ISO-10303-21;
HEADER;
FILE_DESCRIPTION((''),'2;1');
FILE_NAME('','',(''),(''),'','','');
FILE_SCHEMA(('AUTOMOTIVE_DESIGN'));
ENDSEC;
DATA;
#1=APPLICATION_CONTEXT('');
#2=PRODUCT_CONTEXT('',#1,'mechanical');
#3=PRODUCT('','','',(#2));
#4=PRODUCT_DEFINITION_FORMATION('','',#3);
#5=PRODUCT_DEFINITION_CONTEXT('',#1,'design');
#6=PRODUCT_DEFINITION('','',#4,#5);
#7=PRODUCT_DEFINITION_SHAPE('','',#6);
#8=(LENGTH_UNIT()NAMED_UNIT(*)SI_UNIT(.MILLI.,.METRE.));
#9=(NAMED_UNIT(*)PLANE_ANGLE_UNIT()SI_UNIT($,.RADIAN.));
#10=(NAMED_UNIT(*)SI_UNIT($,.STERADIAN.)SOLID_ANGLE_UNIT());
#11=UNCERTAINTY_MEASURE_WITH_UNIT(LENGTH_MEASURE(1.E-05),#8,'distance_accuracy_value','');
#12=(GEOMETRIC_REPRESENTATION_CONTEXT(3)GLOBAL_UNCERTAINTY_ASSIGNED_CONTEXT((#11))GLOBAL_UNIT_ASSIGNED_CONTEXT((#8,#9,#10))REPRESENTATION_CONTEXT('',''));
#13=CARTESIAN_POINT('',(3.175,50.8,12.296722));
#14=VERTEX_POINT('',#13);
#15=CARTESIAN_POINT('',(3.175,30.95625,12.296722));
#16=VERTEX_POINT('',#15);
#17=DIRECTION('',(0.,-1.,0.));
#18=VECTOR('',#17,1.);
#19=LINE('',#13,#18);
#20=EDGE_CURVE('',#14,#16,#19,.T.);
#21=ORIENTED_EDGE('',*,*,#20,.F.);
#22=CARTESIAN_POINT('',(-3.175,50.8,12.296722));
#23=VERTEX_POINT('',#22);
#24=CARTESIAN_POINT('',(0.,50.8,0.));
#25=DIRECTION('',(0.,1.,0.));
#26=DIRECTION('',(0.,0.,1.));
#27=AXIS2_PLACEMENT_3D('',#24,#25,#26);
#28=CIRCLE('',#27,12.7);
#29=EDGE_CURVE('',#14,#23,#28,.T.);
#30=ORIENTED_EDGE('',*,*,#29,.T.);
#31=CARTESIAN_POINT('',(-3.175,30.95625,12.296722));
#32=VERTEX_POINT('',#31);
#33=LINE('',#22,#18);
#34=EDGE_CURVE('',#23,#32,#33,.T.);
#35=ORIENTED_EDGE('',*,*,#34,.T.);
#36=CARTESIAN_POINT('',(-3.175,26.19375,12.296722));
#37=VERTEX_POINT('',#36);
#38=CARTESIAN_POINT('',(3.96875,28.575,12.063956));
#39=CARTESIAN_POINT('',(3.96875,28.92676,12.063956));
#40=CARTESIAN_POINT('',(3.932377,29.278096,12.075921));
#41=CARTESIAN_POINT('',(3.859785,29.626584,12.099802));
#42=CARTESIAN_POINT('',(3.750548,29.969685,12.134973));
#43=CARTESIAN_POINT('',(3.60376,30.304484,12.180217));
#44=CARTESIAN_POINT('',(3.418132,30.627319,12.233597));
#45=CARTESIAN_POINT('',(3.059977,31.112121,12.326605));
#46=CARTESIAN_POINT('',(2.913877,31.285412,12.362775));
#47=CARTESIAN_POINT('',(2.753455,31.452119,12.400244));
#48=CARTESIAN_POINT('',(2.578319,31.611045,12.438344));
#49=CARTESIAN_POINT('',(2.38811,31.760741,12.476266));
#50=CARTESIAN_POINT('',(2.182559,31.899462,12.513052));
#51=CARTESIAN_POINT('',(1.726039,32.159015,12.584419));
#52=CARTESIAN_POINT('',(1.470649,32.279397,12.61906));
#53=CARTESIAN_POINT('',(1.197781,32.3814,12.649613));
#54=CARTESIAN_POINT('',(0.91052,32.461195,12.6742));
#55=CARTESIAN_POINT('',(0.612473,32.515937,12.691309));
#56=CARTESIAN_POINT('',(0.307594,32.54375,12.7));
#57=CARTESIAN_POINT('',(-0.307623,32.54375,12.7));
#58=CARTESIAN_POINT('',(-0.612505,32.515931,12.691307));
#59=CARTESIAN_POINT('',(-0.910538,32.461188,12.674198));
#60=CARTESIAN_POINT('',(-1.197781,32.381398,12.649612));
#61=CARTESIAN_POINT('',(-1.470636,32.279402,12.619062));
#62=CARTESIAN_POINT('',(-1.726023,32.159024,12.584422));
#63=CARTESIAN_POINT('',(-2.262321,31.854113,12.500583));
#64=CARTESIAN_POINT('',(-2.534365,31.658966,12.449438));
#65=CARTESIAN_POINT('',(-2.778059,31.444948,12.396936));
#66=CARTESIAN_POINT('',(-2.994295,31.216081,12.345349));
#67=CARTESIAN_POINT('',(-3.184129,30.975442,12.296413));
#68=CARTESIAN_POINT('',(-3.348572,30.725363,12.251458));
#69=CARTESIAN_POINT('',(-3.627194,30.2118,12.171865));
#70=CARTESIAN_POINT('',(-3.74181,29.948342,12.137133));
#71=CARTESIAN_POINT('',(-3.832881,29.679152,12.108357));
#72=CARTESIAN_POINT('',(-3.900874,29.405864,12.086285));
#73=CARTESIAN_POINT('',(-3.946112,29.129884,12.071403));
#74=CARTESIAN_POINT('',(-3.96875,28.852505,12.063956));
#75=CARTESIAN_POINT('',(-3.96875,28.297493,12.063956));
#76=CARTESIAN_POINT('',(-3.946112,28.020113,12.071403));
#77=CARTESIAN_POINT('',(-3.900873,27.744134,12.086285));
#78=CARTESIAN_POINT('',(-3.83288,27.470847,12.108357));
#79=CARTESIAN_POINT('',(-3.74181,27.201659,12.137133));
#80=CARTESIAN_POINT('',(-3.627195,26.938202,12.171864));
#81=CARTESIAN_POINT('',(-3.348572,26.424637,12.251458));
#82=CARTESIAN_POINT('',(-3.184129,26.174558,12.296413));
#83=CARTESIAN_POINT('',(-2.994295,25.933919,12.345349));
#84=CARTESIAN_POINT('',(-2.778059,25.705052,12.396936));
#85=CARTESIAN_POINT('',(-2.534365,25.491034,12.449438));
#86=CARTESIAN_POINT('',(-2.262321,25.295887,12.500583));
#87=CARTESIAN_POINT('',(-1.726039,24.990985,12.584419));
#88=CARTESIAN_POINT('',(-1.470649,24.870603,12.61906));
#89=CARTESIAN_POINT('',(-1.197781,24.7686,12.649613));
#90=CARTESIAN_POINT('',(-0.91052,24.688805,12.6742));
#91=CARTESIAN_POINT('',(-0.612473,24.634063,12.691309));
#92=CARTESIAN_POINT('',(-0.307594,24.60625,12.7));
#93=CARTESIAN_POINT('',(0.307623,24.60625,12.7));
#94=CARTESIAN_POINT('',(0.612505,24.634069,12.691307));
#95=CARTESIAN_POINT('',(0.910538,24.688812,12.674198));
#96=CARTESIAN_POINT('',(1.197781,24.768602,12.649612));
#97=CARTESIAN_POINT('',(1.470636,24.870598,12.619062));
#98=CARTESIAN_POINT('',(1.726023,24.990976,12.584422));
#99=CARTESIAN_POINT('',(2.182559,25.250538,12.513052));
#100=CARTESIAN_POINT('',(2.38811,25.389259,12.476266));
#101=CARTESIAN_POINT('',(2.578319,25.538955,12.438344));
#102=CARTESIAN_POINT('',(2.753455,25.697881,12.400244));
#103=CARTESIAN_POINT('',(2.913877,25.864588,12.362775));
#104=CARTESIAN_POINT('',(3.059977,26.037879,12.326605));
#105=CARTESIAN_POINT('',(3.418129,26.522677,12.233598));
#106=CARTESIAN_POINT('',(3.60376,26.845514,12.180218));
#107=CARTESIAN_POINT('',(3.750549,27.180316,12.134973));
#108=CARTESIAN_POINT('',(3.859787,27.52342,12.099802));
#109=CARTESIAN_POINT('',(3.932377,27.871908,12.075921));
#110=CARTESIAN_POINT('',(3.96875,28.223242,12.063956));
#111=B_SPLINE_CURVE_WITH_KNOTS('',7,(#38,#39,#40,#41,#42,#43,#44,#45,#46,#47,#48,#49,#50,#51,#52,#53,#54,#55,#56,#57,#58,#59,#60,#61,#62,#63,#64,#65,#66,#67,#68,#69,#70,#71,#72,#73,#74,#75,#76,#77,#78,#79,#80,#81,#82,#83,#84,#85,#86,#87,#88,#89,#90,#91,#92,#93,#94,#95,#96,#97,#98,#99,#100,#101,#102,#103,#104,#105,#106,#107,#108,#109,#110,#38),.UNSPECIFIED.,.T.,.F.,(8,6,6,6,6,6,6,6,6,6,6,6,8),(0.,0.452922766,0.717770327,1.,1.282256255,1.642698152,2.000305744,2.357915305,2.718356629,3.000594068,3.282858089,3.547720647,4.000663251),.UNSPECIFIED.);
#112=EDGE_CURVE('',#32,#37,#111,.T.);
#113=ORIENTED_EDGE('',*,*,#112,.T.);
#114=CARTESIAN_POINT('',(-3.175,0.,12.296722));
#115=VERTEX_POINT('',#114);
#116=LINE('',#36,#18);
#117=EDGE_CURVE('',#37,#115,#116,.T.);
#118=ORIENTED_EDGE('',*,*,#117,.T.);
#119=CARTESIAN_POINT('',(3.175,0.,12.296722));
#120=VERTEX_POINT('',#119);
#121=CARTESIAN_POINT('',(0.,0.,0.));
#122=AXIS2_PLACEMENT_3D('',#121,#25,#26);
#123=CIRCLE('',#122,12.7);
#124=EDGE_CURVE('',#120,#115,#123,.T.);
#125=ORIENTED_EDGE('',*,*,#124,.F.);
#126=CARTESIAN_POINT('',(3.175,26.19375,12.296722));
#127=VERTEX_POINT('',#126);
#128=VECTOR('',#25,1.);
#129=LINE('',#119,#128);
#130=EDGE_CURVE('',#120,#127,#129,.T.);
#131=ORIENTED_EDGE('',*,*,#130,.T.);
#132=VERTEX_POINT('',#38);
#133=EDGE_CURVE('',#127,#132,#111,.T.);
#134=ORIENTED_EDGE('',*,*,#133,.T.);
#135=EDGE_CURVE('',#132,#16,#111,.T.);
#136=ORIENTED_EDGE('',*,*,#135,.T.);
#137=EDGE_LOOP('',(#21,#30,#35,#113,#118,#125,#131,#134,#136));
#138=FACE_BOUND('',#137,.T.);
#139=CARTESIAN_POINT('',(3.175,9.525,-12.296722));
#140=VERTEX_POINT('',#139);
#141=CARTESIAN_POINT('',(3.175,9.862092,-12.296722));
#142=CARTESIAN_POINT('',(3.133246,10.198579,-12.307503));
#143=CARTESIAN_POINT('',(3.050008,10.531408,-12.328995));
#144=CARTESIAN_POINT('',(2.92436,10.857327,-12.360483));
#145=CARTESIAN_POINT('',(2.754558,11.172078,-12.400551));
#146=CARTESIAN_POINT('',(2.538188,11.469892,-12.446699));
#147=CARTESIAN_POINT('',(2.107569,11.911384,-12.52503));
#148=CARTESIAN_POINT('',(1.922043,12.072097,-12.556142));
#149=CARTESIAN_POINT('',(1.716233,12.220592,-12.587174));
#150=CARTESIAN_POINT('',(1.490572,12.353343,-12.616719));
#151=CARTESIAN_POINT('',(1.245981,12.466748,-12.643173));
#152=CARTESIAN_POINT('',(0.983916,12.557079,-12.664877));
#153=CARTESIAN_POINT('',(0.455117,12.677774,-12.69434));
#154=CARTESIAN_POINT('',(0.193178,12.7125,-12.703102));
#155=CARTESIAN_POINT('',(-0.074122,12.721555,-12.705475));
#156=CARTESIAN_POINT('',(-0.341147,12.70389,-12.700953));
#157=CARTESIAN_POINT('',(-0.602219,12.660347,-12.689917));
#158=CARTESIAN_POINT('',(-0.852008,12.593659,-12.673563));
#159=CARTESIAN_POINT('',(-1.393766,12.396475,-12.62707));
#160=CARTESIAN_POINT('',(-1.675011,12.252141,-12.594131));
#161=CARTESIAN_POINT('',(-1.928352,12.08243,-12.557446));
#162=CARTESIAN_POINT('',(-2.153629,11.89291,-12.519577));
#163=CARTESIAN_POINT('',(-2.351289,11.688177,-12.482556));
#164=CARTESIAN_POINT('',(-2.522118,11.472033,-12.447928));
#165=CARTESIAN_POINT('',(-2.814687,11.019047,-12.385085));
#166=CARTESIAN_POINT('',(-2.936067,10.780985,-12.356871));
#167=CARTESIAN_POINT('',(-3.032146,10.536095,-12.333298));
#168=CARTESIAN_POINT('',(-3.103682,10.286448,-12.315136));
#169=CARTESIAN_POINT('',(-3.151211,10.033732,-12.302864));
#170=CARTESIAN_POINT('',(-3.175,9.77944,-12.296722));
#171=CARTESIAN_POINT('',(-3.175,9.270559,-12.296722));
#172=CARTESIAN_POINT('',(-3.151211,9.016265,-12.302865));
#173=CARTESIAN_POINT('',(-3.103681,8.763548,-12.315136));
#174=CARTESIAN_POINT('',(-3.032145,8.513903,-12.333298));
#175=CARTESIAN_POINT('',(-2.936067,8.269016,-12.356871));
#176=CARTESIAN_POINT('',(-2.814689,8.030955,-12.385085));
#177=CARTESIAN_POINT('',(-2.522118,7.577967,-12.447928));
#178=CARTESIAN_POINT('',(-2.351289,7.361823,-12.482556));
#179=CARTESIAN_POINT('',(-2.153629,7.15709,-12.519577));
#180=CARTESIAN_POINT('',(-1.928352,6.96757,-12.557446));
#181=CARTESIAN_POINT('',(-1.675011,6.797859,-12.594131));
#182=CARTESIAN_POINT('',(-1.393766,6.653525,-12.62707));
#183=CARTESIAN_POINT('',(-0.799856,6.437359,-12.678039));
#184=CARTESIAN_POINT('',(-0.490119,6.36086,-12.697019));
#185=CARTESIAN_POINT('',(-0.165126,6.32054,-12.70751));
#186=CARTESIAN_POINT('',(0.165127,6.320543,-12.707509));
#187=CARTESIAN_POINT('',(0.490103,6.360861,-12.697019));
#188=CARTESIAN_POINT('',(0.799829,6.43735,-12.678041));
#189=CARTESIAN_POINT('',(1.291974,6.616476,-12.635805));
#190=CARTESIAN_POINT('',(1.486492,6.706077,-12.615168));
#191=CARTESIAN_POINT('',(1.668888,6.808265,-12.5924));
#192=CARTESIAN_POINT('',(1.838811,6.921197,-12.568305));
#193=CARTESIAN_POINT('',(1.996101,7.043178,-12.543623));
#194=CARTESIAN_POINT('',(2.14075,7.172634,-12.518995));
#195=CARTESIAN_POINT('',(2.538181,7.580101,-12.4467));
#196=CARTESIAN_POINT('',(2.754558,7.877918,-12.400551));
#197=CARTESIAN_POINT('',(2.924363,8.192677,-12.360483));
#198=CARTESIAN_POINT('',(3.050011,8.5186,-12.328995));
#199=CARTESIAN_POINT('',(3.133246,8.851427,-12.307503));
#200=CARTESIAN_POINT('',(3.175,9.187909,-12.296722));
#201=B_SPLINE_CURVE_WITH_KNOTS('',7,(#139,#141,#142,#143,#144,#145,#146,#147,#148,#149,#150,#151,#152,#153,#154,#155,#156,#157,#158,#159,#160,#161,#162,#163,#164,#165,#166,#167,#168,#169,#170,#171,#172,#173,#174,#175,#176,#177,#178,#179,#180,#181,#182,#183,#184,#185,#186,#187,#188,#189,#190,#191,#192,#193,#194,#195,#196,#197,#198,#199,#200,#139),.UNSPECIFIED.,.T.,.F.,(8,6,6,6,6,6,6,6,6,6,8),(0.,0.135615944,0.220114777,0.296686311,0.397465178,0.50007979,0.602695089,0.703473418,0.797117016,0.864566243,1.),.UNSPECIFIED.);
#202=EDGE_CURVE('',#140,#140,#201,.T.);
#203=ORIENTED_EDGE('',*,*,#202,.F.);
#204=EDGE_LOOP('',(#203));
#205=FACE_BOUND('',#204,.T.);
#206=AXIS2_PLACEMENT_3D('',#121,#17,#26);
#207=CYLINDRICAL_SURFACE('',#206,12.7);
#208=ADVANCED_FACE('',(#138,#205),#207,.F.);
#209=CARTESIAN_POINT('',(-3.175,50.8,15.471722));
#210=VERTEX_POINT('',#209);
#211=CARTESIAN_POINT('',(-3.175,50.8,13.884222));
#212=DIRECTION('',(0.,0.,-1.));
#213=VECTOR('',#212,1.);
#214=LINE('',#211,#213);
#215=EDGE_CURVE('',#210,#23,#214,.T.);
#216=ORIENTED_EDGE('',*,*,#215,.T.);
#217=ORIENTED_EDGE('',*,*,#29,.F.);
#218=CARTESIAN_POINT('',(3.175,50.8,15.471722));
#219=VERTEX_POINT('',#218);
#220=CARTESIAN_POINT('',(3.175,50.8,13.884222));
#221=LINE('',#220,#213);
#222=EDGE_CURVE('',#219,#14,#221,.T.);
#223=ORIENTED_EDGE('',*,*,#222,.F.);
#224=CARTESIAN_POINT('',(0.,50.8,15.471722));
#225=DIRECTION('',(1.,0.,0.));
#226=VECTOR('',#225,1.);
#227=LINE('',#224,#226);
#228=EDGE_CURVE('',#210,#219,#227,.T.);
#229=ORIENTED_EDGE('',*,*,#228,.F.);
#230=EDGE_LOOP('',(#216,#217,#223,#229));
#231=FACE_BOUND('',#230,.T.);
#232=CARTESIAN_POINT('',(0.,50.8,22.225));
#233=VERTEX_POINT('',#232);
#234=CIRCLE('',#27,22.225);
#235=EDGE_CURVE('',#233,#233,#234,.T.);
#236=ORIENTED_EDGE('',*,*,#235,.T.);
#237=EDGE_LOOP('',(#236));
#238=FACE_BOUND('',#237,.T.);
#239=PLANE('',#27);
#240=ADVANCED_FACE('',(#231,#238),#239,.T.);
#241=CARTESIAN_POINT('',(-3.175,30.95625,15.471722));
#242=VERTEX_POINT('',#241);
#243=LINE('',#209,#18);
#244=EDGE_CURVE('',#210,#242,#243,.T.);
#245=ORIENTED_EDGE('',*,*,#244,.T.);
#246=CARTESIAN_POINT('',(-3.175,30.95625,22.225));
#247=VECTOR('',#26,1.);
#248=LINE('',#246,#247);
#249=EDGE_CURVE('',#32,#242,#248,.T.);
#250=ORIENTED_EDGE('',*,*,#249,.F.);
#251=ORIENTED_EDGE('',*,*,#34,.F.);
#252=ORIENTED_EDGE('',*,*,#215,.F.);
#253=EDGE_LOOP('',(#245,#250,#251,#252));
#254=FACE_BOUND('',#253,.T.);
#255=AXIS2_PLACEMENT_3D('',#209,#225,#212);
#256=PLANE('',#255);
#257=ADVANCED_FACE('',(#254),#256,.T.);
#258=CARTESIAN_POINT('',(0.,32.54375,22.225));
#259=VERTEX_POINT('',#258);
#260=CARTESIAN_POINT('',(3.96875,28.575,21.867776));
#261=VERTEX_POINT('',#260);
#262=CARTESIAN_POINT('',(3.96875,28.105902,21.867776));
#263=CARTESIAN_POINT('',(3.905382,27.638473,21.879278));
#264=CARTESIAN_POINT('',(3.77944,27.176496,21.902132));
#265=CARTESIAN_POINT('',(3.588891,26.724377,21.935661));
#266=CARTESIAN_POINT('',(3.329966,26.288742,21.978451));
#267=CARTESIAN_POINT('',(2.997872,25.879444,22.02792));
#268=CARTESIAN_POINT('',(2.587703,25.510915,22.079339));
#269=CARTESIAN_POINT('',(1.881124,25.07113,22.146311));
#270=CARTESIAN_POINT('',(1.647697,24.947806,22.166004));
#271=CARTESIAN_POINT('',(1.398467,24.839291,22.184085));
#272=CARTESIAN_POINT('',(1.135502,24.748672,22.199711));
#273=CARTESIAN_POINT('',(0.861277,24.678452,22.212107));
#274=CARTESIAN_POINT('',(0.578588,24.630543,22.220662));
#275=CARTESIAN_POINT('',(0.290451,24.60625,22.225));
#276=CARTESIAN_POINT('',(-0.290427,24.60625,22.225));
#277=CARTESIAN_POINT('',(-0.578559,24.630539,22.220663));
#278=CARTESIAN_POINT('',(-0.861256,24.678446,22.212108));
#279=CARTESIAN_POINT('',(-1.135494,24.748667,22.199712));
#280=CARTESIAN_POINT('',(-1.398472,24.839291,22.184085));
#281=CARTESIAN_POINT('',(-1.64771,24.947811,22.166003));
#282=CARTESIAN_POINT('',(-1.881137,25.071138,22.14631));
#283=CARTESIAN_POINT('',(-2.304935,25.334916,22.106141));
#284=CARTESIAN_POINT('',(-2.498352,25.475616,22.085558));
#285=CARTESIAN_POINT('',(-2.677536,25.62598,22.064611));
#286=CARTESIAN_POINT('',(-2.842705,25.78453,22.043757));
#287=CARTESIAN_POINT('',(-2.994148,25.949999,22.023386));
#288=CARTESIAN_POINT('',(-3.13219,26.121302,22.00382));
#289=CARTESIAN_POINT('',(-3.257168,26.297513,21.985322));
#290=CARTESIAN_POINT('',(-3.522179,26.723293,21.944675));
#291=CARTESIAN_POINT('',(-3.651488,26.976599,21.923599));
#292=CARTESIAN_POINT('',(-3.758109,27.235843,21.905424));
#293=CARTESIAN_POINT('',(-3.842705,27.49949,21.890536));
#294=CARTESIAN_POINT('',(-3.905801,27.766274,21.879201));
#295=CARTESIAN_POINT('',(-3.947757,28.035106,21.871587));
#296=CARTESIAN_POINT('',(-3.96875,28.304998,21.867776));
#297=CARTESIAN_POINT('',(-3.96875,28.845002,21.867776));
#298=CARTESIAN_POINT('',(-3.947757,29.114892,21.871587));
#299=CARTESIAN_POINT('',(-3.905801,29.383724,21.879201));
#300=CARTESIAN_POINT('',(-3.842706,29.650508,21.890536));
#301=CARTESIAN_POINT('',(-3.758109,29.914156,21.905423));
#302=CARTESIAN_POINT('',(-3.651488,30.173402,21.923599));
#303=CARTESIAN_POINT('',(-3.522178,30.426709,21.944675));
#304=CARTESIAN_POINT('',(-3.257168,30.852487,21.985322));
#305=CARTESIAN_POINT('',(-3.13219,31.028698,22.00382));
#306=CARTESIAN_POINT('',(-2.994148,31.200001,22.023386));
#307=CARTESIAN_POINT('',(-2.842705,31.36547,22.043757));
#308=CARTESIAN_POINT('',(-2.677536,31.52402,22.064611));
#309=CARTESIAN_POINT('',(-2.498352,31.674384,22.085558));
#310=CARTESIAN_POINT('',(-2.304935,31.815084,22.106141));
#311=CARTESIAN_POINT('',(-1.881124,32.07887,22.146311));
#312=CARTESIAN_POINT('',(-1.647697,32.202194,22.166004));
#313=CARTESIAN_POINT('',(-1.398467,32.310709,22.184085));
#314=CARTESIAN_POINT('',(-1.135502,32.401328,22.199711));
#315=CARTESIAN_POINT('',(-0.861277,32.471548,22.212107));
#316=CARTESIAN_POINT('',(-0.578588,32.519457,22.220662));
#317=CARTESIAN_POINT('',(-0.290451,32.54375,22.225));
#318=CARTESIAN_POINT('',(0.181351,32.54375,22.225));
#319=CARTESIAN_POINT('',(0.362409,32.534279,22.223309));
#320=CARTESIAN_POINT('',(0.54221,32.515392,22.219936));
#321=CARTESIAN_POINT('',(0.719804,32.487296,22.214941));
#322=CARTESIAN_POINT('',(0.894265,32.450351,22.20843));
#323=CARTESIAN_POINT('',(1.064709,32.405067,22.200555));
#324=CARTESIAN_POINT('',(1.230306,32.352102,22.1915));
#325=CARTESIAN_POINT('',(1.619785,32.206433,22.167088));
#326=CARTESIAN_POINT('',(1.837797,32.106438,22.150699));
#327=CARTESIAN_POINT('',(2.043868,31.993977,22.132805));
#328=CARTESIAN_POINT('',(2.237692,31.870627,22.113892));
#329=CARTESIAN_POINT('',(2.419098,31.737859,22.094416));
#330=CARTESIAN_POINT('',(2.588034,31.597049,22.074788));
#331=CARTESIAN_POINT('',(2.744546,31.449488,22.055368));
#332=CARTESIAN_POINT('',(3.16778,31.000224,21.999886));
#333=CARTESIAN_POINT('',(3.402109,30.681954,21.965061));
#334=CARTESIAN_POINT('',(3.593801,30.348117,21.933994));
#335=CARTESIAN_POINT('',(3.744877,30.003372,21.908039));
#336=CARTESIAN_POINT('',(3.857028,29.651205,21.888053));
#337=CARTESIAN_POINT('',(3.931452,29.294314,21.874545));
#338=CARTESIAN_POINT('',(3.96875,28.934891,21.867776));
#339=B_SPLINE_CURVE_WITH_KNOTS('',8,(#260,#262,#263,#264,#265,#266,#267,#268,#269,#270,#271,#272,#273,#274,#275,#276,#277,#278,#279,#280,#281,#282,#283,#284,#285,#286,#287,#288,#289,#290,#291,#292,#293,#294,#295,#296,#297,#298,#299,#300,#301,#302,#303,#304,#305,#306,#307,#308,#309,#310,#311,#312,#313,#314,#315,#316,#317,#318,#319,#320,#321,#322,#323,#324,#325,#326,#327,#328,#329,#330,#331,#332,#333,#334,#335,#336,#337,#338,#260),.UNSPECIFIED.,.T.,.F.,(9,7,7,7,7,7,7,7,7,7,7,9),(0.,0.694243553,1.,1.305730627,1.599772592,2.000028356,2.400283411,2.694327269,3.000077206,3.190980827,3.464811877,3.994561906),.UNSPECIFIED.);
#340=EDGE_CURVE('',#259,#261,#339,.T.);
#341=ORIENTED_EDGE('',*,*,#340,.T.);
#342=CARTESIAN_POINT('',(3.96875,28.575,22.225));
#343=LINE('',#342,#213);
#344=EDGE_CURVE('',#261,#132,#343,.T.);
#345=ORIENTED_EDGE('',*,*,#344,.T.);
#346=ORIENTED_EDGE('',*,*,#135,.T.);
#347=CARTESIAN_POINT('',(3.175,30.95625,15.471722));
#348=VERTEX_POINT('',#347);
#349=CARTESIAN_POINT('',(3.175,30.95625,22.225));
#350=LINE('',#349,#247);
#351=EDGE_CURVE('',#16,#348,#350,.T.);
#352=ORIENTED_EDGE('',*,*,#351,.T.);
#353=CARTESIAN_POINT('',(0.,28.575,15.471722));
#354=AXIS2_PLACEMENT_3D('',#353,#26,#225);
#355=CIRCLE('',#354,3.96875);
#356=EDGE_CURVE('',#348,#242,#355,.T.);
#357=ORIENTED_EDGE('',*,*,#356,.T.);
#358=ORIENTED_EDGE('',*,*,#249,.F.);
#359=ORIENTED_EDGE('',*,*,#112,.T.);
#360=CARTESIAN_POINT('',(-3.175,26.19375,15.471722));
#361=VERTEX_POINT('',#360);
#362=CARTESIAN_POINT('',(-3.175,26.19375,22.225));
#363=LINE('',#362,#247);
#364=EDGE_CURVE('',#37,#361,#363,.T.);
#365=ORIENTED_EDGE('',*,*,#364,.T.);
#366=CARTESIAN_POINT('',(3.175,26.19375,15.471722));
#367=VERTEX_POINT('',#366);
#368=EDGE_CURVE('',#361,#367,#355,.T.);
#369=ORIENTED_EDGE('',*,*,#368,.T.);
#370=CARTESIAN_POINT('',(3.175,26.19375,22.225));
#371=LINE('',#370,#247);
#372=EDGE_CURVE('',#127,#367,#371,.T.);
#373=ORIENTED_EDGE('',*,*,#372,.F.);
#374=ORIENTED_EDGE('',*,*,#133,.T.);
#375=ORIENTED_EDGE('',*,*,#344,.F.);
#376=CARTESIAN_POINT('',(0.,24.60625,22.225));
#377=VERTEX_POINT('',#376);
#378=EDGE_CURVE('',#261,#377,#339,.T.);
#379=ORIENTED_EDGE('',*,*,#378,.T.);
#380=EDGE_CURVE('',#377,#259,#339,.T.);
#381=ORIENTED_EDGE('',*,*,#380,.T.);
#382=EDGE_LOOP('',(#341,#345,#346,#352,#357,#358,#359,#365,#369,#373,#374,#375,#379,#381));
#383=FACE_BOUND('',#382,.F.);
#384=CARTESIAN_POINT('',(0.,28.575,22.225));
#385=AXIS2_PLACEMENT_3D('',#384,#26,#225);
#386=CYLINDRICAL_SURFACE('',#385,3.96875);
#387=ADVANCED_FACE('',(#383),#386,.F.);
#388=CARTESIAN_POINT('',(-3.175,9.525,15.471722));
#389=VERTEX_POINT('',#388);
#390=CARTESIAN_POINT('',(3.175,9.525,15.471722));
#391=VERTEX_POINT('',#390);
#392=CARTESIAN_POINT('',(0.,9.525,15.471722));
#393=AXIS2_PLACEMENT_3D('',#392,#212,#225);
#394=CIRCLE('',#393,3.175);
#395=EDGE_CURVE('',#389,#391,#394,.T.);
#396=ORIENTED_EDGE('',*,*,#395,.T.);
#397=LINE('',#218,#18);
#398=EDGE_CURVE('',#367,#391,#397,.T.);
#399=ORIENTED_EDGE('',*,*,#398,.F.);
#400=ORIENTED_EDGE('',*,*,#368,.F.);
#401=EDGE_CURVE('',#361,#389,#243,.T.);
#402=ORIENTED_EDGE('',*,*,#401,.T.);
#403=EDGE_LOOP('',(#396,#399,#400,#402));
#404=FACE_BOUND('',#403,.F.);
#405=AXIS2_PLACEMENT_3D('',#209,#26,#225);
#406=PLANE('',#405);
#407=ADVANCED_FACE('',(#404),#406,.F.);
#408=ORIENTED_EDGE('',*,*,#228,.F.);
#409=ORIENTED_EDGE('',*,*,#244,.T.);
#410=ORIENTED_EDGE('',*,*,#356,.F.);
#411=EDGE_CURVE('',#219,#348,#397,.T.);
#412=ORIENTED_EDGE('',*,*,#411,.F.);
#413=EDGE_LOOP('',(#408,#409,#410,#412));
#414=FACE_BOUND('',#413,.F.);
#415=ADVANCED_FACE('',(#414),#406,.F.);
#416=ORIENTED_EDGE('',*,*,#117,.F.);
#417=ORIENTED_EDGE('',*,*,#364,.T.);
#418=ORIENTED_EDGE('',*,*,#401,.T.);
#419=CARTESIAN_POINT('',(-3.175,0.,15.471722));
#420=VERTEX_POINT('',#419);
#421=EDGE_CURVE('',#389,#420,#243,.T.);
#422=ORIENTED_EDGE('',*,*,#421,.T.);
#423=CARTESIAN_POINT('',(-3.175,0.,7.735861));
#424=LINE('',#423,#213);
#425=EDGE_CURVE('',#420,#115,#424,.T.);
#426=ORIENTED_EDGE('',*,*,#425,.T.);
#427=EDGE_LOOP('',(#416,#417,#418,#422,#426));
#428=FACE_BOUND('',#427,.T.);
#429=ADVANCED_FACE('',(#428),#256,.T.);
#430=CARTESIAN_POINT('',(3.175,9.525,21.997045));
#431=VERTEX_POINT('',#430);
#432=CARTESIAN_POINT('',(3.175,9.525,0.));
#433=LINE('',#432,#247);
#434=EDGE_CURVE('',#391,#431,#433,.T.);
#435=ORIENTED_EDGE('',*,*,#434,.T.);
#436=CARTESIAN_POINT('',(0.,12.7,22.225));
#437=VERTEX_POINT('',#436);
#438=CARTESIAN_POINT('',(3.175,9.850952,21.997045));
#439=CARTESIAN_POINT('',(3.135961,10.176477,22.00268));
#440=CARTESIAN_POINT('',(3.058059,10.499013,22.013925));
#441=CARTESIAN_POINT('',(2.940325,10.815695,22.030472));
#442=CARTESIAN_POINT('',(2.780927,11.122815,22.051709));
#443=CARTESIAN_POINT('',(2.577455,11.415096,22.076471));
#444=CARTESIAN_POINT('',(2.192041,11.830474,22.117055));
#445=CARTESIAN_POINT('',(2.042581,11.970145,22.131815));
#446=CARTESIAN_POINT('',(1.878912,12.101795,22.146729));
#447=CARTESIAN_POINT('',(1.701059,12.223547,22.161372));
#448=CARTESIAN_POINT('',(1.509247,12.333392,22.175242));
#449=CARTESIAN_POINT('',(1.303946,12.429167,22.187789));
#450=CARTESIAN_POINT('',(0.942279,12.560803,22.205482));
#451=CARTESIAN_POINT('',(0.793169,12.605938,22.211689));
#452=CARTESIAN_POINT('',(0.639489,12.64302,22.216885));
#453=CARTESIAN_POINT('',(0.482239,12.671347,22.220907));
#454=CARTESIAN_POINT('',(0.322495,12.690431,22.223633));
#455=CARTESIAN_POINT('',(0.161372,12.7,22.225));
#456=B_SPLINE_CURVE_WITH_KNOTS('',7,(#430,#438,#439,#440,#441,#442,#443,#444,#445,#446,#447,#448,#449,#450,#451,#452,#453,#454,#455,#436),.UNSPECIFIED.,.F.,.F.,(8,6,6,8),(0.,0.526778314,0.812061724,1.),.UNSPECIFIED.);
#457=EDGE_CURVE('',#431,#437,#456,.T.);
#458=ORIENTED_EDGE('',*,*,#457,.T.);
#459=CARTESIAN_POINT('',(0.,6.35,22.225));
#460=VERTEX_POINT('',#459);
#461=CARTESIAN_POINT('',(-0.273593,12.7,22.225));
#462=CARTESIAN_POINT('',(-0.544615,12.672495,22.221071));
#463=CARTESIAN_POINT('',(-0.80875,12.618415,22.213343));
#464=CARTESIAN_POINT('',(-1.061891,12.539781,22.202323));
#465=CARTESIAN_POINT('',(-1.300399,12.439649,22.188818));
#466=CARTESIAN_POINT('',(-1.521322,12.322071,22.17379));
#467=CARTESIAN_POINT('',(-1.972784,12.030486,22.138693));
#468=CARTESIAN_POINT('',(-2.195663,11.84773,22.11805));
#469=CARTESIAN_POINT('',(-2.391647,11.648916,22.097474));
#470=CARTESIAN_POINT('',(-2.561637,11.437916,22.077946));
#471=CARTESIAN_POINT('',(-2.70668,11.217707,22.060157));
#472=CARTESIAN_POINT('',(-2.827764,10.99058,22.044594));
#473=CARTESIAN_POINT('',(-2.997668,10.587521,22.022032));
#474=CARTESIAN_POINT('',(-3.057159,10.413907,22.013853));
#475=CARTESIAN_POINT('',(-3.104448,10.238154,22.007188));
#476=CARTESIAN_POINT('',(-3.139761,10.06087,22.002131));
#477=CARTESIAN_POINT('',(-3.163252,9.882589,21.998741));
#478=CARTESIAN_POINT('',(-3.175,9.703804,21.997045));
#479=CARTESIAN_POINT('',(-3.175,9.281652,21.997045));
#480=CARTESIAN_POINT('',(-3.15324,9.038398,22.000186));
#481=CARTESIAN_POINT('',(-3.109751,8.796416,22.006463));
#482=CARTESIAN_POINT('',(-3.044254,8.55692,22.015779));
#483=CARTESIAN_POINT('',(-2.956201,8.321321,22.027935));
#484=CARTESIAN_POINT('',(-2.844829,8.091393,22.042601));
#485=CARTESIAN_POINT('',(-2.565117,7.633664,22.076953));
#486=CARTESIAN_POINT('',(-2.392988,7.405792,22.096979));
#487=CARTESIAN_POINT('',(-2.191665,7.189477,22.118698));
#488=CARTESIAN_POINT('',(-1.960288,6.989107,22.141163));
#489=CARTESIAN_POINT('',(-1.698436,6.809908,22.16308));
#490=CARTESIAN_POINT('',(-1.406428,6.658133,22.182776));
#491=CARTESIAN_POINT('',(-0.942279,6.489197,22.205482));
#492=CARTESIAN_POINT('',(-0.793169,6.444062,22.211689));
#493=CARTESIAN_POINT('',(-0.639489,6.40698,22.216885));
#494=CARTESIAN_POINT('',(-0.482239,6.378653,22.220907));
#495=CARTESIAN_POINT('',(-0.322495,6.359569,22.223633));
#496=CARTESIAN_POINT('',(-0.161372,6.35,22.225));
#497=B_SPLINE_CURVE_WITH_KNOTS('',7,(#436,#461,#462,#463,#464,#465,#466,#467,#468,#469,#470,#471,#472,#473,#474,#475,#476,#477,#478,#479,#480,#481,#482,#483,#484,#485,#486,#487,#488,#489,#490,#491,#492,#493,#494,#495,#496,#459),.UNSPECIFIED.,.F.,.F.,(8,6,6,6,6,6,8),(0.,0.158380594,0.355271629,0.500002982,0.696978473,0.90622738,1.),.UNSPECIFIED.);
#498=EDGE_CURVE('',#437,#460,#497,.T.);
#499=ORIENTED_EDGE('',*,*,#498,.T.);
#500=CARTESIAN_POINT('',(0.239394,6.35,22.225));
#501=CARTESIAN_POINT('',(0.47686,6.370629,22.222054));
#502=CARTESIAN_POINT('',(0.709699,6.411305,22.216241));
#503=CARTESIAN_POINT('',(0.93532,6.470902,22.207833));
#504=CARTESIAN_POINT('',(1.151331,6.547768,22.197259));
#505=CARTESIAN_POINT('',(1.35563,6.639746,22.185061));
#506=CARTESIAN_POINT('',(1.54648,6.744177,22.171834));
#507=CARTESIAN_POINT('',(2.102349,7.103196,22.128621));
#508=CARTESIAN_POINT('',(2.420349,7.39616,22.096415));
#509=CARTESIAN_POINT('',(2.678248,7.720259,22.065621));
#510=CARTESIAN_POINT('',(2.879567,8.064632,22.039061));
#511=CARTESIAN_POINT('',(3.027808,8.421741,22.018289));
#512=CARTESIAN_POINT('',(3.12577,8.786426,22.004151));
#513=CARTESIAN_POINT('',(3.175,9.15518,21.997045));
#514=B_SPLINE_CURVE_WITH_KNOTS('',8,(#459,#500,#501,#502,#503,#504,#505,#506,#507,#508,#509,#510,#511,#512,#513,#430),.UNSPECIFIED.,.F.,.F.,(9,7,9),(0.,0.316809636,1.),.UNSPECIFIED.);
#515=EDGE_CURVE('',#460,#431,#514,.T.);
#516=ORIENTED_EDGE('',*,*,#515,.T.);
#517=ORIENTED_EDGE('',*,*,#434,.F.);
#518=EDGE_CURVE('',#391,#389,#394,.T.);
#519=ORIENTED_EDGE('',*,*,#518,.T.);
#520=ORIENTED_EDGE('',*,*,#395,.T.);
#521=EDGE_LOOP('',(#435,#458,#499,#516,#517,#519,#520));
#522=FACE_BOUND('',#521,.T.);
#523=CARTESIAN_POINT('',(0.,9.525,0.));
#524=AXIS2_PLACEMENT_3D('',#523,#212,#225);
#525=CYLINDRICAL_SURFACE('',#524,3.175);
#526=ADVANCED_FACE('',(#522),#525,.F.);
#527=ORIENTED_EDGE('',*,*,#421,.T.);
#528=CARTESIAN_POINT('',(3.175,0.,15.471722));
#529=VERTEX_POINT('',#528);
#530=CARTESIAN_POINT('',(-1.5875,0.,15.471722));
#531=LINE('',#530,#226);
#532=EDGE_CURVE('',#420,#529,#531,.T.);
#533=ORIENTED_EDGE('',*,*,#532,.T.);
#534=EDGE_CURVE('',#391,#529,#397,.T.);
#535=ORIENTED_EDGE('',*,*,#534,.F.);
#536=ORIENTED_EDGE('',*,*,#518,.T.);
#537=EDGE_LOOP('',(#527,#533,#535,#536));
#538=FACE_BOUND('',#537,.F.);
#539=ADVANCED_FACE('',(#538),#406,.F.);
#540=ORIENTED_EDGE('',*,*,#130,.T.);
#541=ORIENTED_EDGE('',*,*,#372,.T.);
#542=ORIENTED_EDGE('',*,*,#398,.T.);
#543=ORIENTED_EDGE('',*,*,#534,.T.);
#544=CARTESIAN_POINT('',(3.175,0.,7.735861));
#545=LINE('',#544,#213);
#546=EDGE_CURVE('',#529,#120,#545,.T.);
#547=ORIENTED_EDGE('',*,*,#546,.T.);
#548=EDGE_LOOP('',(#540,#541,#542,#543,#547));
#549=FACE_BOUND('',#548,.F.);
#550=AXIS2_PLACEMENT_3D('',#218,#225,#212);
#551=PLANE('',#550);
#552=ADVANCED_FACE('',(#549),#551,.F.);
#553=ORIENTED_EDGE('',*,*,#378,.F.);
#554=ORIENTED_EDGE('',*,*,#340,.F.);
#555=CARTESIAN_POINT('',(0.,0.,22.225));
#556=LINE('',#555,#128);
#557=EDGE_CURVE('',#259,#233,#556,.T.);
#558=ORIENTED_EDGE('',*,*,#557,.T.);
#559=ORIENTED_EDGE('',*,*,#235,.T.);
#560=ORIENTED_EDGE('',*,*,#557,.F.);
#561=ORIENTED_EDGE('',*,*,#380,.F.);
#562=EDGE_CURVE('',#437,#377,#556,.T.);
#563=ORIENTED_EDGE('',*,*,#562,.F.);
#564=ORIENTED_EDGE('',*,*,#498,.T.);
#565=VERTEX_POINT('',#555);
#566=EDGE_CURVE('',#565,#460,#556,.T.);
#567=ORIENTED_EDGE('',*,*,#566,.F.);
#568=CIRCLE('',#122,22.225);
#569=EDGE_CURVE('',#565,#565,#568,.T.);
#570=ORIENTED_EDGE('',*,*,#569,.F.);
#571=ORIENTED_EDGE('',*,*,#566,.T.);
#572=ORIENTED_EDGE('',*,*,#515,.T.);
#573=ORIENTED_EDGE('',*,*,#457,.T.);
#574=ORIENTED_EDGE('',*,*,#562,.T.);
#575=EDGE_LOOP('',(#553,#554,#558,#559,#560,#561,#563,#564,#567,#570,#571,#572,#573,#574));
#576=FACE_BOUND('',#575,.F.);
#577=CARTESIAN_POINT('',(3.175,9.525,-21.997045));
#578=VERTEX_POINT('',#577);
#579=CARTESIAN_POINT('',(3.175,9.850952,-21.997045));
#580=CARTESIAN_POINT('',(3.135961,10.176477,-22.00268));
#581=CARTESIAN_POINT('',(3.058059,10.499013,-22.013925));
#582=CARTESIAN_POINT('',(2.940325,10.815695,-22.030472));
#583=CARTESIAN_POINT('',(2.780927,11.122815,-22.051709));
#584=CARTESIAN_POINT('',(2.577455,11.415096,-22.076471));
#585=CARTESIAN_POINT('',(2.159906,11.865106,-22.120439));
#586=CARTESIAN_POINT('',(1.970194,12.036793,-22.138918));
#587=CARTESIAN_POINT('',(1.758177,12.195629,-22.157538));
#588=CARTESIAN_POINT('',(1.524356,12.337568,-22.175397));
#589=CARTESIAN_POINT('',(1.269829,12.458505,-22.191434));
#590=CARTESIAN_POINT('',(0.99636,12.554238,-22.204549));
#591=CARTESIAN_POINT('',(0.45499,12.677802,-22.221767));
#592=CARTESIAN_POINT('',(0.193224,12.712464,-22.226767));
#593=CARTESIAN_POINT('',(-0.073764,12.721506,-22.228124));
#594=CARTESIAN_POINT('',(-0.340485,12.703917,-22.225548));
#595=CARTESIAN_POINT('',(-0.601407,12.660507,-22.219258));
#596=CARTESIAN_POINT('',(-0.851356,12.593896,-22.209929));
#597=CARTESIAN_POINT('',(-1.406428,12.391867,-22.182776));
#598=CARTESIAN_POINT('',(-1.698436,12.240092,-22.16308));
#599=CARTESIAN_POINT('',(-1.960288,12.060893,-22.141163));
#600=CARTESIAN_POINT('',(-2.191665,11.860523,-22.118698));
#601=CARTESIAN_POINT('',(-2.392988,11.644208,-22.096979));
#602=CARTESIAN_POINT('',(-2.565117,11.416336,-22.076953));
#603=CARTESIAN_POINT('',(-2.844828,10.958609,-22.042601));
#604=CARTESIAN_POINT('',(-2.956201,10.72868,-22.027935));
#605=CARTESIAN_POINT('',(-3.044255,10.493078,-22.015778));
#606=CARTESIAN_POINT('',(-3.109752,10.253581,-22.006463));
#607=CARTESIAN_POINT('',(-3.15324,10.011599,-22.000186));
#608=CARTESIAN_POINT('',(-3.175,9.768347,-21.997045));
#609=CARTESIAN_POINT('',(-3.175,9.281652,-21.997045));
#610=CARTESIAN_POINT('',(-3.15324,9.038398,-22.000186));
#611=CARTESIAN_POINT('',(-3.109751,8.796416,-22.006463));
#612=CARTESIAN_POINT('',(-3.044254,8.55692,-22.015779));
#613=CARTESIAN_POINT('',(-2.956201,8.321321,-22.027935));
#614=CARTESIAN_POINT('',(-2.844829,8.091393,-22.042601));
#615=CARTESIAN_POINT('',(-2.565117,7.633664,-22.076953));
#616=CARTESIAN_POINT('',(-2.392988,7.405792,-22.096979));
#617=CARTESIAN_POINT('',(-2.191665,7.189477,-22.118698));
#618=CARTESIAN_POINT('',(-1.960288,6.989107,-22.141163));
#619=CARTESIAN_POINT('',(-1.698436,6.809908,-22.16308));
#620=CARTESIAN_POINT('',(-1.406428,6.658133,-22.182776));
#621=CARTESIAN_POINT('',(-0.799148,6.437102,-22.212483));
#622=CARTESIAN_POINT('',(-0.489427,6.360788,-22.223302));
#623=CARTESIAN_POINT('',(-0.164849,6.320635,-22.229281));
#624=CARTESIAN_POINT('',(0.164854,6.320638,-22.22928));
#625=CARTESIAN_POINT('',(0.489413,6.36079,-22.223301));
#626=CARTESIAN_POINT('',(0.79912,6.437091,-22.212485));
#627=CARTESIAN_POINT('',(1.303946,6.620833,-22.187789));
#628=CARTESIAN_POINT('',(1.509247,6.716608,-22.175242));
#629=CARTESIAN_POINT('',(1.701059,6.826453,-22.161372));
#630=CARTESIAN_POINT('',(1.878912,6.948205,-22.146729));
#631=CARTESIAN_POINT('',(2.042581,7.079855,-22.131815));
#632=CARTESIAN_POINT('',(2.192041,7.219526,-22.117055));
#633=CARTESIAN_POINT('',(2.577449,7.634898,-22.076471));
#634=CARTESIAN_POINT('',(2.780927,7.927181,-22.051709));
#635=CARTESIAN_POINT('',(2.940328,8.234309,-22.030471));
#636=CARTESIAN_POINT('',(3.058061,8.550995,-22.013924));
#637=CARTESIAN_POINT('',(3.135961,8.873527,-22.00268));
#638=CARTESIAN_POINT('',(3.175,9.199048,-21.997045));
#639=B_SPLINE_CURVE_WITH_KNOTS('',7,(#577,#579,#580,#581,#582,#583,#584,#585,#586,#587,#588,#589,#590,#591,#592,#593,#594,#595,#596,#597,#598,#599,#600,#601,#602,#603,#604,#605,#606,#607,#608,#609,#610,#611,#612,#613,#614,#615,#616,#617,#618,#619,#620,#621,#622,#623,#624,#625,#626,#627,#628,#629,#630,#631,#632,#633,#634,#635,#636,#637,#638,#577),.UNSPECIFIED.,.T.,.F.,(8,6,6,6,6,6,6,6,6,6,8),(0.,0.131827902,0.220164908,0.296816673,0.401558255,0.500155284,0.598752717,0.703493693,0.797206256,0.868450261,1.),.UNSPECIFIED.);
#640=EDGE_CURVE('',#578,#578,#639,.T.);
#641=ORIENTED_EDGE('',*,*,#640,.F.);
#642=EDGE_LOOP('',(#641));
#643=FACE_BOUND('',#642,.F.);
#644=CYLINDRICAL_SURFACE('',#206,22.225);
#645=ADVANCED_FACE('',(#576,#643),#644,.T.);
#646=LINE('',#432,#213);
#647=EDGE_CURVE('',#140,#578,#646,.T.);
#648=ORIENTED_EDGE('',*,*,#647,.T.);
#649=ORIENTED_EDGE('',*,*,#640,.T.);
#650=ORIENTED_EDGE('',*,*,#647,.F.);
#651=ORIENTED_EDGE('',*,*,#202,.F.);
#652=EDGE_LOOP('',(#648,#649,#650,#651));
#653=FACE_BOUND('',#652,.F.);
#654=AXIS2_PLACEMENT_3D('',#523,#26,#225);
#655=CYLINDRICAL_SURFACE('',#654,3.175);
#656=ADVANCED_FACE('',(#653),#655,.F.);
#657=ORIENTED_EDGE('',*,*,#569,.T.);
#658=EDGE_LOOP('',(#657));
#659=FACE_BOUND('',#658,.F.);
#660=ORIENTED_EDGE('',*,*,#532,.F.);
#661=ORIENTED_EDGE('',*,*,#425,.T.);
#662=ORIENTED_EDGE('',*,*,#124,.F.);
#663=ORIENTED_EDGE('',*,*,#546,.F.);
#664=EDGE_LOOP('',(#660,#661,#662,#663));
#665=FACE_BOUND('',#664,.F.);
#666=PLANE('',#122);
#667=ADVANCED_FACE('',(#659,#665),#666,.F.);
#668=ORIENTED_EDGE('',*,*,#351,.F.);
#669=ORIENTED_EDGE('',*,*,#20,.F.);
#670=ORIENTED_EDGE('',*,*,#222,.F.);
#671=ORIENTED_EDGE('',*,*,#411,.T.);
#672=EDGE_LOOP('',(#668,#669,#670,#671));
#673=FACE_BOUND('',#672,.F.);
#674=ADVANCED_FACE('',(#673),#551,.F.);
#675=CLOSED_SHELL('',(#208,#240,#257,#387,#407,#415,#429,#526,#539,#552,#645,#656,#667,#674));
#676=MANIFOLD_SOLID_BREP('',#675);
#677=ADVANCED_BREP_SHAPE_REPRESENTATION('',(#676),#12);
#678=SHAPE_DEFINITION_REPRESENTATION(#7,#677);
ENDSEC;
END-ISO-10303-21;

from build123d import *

# Parameters (mm, degrees)
SKETCH1_R                           = 22.225
SKETCH1_R_2                         = 12.7
BOSS_EXTRUDE1_DEPTH                 = 50.8
SKETCH2_R                           = 3.175
CUT_EXTRUDE1_DEPTH                  = 60.737268518
CUT_EXTRUDE1_DEPTH_BACK             = 60.737268518
F_5_16_0_3125_DIAMETER_HOLE1_REACH  = 59.326
F_5_16_0_3125_DIAMETER_HOLE1_BORE_R = 3.96875
CUT_EXTRUDE3_REACH                  = 61.737
SKETCH6_W                           = 6.35
SKETCH6_H                           = 3.175


with BuildPart() as part:
    # Sketch1 → Boss-Extrude1 (new body)
    with BuildSketch(Plane(origin=(0, 0, 0), x_dir=(1, 0, 0), z_dir=(0, 1, 0))):
        with Locations(Location((0, 0, 0), (0, 0, 270))):
            Circle(SKETCH1_R)
        with Locations(Location((0, 0, 0), (0, 0, 270))):
            Circle(SKETCH1_R_2, mode=Mode.SUBTRACT)
    extrude(amount=BOSS_EXTRUDE1_DEPTH)

    # Sketch2 → Cut-Extrude1 (cut, two sides)
    with BuildSketch(Plane.XY) as cut_extrude1_sk:
        with Locations((0, 9.525)):
            Circle(SKETCH2_R)
    extrude(amount=CUT_EXTRUDE1_DEPTH, mode=Mode.SUBTRACT)
    extrude(cut_extrude1_sk.sketch, amount=-CUT_EXTRUDE1_DEPTH_BACK, mode=Mode.SUBTRACT)

    # 5/16 (0.3125) Diameter Hole1 bore (on position points) → 5/16 (0.3125) Diameter Hole1 (cut, up to next)
    with BuildSketch(Plane(origin=(0, 28.575, 22.225), x_dir=(1, 0, 0), z_dir=(0, 0, 1)), mode=Mode.PRIVATE) as f_5_16_0_3125_diameter_hole1_sk1:
        Circle(F_5_16_0_3125_DIAMETER_HOLE1_BORE_R)
    f_5_16_0_3125_diameter_hole1_tool1 = extrude(f_5_16_0_3125_diameter_hole1_sk1.sketch, amount=-F_5_16_0_3125_DIAMETER_HOLE1_REACH, mode=Mode.PRIVATE) & part.part
    add(f_5_16_0_3125_diameter_hole1_tool1.solids().sort_by_distance((0, 28.575, 22.225))[0], mode=Mode.SUBTRACT)

    # Cut-Extrude3: up to this face of the body (flat: up to its plane)
    cut_extrude3_end = Plane(part.part.faces().sort_by_distance((0, 0, -21.596382072))[0])
    # Sketch6 → Cut-Extrude3 (cut, up to the picked face)
    with BuildSketch(Plane(origin=(0, 50.8, 0), x_dir=(1, 0, 0), z_dir=(0, 1, 0)), mode=Mode.PRIVATE) as cut_extrude3_sk1:
        with Locations((0, -13.884222124)):
            Rectangle(SKETCH6_W, SKETCH6_H)
    cut_extrude3_tool1 = split(extrude(cut_extrude3_sk1.sketch, amount=-CUT_EXTRUDE3_REACH, mode=Mode.PRIVATE), bisect_by=cut_extrude3_end, keep=Keep.BOTH, mode=Mode.PRIVATE)
    add(cut_extrude3_tool1.solids().sort_by(Axis((0, 50.8, 13.884222), (0, -1, 0)))[0], mode=Mode.SUBTRACT)


solid = part.part
